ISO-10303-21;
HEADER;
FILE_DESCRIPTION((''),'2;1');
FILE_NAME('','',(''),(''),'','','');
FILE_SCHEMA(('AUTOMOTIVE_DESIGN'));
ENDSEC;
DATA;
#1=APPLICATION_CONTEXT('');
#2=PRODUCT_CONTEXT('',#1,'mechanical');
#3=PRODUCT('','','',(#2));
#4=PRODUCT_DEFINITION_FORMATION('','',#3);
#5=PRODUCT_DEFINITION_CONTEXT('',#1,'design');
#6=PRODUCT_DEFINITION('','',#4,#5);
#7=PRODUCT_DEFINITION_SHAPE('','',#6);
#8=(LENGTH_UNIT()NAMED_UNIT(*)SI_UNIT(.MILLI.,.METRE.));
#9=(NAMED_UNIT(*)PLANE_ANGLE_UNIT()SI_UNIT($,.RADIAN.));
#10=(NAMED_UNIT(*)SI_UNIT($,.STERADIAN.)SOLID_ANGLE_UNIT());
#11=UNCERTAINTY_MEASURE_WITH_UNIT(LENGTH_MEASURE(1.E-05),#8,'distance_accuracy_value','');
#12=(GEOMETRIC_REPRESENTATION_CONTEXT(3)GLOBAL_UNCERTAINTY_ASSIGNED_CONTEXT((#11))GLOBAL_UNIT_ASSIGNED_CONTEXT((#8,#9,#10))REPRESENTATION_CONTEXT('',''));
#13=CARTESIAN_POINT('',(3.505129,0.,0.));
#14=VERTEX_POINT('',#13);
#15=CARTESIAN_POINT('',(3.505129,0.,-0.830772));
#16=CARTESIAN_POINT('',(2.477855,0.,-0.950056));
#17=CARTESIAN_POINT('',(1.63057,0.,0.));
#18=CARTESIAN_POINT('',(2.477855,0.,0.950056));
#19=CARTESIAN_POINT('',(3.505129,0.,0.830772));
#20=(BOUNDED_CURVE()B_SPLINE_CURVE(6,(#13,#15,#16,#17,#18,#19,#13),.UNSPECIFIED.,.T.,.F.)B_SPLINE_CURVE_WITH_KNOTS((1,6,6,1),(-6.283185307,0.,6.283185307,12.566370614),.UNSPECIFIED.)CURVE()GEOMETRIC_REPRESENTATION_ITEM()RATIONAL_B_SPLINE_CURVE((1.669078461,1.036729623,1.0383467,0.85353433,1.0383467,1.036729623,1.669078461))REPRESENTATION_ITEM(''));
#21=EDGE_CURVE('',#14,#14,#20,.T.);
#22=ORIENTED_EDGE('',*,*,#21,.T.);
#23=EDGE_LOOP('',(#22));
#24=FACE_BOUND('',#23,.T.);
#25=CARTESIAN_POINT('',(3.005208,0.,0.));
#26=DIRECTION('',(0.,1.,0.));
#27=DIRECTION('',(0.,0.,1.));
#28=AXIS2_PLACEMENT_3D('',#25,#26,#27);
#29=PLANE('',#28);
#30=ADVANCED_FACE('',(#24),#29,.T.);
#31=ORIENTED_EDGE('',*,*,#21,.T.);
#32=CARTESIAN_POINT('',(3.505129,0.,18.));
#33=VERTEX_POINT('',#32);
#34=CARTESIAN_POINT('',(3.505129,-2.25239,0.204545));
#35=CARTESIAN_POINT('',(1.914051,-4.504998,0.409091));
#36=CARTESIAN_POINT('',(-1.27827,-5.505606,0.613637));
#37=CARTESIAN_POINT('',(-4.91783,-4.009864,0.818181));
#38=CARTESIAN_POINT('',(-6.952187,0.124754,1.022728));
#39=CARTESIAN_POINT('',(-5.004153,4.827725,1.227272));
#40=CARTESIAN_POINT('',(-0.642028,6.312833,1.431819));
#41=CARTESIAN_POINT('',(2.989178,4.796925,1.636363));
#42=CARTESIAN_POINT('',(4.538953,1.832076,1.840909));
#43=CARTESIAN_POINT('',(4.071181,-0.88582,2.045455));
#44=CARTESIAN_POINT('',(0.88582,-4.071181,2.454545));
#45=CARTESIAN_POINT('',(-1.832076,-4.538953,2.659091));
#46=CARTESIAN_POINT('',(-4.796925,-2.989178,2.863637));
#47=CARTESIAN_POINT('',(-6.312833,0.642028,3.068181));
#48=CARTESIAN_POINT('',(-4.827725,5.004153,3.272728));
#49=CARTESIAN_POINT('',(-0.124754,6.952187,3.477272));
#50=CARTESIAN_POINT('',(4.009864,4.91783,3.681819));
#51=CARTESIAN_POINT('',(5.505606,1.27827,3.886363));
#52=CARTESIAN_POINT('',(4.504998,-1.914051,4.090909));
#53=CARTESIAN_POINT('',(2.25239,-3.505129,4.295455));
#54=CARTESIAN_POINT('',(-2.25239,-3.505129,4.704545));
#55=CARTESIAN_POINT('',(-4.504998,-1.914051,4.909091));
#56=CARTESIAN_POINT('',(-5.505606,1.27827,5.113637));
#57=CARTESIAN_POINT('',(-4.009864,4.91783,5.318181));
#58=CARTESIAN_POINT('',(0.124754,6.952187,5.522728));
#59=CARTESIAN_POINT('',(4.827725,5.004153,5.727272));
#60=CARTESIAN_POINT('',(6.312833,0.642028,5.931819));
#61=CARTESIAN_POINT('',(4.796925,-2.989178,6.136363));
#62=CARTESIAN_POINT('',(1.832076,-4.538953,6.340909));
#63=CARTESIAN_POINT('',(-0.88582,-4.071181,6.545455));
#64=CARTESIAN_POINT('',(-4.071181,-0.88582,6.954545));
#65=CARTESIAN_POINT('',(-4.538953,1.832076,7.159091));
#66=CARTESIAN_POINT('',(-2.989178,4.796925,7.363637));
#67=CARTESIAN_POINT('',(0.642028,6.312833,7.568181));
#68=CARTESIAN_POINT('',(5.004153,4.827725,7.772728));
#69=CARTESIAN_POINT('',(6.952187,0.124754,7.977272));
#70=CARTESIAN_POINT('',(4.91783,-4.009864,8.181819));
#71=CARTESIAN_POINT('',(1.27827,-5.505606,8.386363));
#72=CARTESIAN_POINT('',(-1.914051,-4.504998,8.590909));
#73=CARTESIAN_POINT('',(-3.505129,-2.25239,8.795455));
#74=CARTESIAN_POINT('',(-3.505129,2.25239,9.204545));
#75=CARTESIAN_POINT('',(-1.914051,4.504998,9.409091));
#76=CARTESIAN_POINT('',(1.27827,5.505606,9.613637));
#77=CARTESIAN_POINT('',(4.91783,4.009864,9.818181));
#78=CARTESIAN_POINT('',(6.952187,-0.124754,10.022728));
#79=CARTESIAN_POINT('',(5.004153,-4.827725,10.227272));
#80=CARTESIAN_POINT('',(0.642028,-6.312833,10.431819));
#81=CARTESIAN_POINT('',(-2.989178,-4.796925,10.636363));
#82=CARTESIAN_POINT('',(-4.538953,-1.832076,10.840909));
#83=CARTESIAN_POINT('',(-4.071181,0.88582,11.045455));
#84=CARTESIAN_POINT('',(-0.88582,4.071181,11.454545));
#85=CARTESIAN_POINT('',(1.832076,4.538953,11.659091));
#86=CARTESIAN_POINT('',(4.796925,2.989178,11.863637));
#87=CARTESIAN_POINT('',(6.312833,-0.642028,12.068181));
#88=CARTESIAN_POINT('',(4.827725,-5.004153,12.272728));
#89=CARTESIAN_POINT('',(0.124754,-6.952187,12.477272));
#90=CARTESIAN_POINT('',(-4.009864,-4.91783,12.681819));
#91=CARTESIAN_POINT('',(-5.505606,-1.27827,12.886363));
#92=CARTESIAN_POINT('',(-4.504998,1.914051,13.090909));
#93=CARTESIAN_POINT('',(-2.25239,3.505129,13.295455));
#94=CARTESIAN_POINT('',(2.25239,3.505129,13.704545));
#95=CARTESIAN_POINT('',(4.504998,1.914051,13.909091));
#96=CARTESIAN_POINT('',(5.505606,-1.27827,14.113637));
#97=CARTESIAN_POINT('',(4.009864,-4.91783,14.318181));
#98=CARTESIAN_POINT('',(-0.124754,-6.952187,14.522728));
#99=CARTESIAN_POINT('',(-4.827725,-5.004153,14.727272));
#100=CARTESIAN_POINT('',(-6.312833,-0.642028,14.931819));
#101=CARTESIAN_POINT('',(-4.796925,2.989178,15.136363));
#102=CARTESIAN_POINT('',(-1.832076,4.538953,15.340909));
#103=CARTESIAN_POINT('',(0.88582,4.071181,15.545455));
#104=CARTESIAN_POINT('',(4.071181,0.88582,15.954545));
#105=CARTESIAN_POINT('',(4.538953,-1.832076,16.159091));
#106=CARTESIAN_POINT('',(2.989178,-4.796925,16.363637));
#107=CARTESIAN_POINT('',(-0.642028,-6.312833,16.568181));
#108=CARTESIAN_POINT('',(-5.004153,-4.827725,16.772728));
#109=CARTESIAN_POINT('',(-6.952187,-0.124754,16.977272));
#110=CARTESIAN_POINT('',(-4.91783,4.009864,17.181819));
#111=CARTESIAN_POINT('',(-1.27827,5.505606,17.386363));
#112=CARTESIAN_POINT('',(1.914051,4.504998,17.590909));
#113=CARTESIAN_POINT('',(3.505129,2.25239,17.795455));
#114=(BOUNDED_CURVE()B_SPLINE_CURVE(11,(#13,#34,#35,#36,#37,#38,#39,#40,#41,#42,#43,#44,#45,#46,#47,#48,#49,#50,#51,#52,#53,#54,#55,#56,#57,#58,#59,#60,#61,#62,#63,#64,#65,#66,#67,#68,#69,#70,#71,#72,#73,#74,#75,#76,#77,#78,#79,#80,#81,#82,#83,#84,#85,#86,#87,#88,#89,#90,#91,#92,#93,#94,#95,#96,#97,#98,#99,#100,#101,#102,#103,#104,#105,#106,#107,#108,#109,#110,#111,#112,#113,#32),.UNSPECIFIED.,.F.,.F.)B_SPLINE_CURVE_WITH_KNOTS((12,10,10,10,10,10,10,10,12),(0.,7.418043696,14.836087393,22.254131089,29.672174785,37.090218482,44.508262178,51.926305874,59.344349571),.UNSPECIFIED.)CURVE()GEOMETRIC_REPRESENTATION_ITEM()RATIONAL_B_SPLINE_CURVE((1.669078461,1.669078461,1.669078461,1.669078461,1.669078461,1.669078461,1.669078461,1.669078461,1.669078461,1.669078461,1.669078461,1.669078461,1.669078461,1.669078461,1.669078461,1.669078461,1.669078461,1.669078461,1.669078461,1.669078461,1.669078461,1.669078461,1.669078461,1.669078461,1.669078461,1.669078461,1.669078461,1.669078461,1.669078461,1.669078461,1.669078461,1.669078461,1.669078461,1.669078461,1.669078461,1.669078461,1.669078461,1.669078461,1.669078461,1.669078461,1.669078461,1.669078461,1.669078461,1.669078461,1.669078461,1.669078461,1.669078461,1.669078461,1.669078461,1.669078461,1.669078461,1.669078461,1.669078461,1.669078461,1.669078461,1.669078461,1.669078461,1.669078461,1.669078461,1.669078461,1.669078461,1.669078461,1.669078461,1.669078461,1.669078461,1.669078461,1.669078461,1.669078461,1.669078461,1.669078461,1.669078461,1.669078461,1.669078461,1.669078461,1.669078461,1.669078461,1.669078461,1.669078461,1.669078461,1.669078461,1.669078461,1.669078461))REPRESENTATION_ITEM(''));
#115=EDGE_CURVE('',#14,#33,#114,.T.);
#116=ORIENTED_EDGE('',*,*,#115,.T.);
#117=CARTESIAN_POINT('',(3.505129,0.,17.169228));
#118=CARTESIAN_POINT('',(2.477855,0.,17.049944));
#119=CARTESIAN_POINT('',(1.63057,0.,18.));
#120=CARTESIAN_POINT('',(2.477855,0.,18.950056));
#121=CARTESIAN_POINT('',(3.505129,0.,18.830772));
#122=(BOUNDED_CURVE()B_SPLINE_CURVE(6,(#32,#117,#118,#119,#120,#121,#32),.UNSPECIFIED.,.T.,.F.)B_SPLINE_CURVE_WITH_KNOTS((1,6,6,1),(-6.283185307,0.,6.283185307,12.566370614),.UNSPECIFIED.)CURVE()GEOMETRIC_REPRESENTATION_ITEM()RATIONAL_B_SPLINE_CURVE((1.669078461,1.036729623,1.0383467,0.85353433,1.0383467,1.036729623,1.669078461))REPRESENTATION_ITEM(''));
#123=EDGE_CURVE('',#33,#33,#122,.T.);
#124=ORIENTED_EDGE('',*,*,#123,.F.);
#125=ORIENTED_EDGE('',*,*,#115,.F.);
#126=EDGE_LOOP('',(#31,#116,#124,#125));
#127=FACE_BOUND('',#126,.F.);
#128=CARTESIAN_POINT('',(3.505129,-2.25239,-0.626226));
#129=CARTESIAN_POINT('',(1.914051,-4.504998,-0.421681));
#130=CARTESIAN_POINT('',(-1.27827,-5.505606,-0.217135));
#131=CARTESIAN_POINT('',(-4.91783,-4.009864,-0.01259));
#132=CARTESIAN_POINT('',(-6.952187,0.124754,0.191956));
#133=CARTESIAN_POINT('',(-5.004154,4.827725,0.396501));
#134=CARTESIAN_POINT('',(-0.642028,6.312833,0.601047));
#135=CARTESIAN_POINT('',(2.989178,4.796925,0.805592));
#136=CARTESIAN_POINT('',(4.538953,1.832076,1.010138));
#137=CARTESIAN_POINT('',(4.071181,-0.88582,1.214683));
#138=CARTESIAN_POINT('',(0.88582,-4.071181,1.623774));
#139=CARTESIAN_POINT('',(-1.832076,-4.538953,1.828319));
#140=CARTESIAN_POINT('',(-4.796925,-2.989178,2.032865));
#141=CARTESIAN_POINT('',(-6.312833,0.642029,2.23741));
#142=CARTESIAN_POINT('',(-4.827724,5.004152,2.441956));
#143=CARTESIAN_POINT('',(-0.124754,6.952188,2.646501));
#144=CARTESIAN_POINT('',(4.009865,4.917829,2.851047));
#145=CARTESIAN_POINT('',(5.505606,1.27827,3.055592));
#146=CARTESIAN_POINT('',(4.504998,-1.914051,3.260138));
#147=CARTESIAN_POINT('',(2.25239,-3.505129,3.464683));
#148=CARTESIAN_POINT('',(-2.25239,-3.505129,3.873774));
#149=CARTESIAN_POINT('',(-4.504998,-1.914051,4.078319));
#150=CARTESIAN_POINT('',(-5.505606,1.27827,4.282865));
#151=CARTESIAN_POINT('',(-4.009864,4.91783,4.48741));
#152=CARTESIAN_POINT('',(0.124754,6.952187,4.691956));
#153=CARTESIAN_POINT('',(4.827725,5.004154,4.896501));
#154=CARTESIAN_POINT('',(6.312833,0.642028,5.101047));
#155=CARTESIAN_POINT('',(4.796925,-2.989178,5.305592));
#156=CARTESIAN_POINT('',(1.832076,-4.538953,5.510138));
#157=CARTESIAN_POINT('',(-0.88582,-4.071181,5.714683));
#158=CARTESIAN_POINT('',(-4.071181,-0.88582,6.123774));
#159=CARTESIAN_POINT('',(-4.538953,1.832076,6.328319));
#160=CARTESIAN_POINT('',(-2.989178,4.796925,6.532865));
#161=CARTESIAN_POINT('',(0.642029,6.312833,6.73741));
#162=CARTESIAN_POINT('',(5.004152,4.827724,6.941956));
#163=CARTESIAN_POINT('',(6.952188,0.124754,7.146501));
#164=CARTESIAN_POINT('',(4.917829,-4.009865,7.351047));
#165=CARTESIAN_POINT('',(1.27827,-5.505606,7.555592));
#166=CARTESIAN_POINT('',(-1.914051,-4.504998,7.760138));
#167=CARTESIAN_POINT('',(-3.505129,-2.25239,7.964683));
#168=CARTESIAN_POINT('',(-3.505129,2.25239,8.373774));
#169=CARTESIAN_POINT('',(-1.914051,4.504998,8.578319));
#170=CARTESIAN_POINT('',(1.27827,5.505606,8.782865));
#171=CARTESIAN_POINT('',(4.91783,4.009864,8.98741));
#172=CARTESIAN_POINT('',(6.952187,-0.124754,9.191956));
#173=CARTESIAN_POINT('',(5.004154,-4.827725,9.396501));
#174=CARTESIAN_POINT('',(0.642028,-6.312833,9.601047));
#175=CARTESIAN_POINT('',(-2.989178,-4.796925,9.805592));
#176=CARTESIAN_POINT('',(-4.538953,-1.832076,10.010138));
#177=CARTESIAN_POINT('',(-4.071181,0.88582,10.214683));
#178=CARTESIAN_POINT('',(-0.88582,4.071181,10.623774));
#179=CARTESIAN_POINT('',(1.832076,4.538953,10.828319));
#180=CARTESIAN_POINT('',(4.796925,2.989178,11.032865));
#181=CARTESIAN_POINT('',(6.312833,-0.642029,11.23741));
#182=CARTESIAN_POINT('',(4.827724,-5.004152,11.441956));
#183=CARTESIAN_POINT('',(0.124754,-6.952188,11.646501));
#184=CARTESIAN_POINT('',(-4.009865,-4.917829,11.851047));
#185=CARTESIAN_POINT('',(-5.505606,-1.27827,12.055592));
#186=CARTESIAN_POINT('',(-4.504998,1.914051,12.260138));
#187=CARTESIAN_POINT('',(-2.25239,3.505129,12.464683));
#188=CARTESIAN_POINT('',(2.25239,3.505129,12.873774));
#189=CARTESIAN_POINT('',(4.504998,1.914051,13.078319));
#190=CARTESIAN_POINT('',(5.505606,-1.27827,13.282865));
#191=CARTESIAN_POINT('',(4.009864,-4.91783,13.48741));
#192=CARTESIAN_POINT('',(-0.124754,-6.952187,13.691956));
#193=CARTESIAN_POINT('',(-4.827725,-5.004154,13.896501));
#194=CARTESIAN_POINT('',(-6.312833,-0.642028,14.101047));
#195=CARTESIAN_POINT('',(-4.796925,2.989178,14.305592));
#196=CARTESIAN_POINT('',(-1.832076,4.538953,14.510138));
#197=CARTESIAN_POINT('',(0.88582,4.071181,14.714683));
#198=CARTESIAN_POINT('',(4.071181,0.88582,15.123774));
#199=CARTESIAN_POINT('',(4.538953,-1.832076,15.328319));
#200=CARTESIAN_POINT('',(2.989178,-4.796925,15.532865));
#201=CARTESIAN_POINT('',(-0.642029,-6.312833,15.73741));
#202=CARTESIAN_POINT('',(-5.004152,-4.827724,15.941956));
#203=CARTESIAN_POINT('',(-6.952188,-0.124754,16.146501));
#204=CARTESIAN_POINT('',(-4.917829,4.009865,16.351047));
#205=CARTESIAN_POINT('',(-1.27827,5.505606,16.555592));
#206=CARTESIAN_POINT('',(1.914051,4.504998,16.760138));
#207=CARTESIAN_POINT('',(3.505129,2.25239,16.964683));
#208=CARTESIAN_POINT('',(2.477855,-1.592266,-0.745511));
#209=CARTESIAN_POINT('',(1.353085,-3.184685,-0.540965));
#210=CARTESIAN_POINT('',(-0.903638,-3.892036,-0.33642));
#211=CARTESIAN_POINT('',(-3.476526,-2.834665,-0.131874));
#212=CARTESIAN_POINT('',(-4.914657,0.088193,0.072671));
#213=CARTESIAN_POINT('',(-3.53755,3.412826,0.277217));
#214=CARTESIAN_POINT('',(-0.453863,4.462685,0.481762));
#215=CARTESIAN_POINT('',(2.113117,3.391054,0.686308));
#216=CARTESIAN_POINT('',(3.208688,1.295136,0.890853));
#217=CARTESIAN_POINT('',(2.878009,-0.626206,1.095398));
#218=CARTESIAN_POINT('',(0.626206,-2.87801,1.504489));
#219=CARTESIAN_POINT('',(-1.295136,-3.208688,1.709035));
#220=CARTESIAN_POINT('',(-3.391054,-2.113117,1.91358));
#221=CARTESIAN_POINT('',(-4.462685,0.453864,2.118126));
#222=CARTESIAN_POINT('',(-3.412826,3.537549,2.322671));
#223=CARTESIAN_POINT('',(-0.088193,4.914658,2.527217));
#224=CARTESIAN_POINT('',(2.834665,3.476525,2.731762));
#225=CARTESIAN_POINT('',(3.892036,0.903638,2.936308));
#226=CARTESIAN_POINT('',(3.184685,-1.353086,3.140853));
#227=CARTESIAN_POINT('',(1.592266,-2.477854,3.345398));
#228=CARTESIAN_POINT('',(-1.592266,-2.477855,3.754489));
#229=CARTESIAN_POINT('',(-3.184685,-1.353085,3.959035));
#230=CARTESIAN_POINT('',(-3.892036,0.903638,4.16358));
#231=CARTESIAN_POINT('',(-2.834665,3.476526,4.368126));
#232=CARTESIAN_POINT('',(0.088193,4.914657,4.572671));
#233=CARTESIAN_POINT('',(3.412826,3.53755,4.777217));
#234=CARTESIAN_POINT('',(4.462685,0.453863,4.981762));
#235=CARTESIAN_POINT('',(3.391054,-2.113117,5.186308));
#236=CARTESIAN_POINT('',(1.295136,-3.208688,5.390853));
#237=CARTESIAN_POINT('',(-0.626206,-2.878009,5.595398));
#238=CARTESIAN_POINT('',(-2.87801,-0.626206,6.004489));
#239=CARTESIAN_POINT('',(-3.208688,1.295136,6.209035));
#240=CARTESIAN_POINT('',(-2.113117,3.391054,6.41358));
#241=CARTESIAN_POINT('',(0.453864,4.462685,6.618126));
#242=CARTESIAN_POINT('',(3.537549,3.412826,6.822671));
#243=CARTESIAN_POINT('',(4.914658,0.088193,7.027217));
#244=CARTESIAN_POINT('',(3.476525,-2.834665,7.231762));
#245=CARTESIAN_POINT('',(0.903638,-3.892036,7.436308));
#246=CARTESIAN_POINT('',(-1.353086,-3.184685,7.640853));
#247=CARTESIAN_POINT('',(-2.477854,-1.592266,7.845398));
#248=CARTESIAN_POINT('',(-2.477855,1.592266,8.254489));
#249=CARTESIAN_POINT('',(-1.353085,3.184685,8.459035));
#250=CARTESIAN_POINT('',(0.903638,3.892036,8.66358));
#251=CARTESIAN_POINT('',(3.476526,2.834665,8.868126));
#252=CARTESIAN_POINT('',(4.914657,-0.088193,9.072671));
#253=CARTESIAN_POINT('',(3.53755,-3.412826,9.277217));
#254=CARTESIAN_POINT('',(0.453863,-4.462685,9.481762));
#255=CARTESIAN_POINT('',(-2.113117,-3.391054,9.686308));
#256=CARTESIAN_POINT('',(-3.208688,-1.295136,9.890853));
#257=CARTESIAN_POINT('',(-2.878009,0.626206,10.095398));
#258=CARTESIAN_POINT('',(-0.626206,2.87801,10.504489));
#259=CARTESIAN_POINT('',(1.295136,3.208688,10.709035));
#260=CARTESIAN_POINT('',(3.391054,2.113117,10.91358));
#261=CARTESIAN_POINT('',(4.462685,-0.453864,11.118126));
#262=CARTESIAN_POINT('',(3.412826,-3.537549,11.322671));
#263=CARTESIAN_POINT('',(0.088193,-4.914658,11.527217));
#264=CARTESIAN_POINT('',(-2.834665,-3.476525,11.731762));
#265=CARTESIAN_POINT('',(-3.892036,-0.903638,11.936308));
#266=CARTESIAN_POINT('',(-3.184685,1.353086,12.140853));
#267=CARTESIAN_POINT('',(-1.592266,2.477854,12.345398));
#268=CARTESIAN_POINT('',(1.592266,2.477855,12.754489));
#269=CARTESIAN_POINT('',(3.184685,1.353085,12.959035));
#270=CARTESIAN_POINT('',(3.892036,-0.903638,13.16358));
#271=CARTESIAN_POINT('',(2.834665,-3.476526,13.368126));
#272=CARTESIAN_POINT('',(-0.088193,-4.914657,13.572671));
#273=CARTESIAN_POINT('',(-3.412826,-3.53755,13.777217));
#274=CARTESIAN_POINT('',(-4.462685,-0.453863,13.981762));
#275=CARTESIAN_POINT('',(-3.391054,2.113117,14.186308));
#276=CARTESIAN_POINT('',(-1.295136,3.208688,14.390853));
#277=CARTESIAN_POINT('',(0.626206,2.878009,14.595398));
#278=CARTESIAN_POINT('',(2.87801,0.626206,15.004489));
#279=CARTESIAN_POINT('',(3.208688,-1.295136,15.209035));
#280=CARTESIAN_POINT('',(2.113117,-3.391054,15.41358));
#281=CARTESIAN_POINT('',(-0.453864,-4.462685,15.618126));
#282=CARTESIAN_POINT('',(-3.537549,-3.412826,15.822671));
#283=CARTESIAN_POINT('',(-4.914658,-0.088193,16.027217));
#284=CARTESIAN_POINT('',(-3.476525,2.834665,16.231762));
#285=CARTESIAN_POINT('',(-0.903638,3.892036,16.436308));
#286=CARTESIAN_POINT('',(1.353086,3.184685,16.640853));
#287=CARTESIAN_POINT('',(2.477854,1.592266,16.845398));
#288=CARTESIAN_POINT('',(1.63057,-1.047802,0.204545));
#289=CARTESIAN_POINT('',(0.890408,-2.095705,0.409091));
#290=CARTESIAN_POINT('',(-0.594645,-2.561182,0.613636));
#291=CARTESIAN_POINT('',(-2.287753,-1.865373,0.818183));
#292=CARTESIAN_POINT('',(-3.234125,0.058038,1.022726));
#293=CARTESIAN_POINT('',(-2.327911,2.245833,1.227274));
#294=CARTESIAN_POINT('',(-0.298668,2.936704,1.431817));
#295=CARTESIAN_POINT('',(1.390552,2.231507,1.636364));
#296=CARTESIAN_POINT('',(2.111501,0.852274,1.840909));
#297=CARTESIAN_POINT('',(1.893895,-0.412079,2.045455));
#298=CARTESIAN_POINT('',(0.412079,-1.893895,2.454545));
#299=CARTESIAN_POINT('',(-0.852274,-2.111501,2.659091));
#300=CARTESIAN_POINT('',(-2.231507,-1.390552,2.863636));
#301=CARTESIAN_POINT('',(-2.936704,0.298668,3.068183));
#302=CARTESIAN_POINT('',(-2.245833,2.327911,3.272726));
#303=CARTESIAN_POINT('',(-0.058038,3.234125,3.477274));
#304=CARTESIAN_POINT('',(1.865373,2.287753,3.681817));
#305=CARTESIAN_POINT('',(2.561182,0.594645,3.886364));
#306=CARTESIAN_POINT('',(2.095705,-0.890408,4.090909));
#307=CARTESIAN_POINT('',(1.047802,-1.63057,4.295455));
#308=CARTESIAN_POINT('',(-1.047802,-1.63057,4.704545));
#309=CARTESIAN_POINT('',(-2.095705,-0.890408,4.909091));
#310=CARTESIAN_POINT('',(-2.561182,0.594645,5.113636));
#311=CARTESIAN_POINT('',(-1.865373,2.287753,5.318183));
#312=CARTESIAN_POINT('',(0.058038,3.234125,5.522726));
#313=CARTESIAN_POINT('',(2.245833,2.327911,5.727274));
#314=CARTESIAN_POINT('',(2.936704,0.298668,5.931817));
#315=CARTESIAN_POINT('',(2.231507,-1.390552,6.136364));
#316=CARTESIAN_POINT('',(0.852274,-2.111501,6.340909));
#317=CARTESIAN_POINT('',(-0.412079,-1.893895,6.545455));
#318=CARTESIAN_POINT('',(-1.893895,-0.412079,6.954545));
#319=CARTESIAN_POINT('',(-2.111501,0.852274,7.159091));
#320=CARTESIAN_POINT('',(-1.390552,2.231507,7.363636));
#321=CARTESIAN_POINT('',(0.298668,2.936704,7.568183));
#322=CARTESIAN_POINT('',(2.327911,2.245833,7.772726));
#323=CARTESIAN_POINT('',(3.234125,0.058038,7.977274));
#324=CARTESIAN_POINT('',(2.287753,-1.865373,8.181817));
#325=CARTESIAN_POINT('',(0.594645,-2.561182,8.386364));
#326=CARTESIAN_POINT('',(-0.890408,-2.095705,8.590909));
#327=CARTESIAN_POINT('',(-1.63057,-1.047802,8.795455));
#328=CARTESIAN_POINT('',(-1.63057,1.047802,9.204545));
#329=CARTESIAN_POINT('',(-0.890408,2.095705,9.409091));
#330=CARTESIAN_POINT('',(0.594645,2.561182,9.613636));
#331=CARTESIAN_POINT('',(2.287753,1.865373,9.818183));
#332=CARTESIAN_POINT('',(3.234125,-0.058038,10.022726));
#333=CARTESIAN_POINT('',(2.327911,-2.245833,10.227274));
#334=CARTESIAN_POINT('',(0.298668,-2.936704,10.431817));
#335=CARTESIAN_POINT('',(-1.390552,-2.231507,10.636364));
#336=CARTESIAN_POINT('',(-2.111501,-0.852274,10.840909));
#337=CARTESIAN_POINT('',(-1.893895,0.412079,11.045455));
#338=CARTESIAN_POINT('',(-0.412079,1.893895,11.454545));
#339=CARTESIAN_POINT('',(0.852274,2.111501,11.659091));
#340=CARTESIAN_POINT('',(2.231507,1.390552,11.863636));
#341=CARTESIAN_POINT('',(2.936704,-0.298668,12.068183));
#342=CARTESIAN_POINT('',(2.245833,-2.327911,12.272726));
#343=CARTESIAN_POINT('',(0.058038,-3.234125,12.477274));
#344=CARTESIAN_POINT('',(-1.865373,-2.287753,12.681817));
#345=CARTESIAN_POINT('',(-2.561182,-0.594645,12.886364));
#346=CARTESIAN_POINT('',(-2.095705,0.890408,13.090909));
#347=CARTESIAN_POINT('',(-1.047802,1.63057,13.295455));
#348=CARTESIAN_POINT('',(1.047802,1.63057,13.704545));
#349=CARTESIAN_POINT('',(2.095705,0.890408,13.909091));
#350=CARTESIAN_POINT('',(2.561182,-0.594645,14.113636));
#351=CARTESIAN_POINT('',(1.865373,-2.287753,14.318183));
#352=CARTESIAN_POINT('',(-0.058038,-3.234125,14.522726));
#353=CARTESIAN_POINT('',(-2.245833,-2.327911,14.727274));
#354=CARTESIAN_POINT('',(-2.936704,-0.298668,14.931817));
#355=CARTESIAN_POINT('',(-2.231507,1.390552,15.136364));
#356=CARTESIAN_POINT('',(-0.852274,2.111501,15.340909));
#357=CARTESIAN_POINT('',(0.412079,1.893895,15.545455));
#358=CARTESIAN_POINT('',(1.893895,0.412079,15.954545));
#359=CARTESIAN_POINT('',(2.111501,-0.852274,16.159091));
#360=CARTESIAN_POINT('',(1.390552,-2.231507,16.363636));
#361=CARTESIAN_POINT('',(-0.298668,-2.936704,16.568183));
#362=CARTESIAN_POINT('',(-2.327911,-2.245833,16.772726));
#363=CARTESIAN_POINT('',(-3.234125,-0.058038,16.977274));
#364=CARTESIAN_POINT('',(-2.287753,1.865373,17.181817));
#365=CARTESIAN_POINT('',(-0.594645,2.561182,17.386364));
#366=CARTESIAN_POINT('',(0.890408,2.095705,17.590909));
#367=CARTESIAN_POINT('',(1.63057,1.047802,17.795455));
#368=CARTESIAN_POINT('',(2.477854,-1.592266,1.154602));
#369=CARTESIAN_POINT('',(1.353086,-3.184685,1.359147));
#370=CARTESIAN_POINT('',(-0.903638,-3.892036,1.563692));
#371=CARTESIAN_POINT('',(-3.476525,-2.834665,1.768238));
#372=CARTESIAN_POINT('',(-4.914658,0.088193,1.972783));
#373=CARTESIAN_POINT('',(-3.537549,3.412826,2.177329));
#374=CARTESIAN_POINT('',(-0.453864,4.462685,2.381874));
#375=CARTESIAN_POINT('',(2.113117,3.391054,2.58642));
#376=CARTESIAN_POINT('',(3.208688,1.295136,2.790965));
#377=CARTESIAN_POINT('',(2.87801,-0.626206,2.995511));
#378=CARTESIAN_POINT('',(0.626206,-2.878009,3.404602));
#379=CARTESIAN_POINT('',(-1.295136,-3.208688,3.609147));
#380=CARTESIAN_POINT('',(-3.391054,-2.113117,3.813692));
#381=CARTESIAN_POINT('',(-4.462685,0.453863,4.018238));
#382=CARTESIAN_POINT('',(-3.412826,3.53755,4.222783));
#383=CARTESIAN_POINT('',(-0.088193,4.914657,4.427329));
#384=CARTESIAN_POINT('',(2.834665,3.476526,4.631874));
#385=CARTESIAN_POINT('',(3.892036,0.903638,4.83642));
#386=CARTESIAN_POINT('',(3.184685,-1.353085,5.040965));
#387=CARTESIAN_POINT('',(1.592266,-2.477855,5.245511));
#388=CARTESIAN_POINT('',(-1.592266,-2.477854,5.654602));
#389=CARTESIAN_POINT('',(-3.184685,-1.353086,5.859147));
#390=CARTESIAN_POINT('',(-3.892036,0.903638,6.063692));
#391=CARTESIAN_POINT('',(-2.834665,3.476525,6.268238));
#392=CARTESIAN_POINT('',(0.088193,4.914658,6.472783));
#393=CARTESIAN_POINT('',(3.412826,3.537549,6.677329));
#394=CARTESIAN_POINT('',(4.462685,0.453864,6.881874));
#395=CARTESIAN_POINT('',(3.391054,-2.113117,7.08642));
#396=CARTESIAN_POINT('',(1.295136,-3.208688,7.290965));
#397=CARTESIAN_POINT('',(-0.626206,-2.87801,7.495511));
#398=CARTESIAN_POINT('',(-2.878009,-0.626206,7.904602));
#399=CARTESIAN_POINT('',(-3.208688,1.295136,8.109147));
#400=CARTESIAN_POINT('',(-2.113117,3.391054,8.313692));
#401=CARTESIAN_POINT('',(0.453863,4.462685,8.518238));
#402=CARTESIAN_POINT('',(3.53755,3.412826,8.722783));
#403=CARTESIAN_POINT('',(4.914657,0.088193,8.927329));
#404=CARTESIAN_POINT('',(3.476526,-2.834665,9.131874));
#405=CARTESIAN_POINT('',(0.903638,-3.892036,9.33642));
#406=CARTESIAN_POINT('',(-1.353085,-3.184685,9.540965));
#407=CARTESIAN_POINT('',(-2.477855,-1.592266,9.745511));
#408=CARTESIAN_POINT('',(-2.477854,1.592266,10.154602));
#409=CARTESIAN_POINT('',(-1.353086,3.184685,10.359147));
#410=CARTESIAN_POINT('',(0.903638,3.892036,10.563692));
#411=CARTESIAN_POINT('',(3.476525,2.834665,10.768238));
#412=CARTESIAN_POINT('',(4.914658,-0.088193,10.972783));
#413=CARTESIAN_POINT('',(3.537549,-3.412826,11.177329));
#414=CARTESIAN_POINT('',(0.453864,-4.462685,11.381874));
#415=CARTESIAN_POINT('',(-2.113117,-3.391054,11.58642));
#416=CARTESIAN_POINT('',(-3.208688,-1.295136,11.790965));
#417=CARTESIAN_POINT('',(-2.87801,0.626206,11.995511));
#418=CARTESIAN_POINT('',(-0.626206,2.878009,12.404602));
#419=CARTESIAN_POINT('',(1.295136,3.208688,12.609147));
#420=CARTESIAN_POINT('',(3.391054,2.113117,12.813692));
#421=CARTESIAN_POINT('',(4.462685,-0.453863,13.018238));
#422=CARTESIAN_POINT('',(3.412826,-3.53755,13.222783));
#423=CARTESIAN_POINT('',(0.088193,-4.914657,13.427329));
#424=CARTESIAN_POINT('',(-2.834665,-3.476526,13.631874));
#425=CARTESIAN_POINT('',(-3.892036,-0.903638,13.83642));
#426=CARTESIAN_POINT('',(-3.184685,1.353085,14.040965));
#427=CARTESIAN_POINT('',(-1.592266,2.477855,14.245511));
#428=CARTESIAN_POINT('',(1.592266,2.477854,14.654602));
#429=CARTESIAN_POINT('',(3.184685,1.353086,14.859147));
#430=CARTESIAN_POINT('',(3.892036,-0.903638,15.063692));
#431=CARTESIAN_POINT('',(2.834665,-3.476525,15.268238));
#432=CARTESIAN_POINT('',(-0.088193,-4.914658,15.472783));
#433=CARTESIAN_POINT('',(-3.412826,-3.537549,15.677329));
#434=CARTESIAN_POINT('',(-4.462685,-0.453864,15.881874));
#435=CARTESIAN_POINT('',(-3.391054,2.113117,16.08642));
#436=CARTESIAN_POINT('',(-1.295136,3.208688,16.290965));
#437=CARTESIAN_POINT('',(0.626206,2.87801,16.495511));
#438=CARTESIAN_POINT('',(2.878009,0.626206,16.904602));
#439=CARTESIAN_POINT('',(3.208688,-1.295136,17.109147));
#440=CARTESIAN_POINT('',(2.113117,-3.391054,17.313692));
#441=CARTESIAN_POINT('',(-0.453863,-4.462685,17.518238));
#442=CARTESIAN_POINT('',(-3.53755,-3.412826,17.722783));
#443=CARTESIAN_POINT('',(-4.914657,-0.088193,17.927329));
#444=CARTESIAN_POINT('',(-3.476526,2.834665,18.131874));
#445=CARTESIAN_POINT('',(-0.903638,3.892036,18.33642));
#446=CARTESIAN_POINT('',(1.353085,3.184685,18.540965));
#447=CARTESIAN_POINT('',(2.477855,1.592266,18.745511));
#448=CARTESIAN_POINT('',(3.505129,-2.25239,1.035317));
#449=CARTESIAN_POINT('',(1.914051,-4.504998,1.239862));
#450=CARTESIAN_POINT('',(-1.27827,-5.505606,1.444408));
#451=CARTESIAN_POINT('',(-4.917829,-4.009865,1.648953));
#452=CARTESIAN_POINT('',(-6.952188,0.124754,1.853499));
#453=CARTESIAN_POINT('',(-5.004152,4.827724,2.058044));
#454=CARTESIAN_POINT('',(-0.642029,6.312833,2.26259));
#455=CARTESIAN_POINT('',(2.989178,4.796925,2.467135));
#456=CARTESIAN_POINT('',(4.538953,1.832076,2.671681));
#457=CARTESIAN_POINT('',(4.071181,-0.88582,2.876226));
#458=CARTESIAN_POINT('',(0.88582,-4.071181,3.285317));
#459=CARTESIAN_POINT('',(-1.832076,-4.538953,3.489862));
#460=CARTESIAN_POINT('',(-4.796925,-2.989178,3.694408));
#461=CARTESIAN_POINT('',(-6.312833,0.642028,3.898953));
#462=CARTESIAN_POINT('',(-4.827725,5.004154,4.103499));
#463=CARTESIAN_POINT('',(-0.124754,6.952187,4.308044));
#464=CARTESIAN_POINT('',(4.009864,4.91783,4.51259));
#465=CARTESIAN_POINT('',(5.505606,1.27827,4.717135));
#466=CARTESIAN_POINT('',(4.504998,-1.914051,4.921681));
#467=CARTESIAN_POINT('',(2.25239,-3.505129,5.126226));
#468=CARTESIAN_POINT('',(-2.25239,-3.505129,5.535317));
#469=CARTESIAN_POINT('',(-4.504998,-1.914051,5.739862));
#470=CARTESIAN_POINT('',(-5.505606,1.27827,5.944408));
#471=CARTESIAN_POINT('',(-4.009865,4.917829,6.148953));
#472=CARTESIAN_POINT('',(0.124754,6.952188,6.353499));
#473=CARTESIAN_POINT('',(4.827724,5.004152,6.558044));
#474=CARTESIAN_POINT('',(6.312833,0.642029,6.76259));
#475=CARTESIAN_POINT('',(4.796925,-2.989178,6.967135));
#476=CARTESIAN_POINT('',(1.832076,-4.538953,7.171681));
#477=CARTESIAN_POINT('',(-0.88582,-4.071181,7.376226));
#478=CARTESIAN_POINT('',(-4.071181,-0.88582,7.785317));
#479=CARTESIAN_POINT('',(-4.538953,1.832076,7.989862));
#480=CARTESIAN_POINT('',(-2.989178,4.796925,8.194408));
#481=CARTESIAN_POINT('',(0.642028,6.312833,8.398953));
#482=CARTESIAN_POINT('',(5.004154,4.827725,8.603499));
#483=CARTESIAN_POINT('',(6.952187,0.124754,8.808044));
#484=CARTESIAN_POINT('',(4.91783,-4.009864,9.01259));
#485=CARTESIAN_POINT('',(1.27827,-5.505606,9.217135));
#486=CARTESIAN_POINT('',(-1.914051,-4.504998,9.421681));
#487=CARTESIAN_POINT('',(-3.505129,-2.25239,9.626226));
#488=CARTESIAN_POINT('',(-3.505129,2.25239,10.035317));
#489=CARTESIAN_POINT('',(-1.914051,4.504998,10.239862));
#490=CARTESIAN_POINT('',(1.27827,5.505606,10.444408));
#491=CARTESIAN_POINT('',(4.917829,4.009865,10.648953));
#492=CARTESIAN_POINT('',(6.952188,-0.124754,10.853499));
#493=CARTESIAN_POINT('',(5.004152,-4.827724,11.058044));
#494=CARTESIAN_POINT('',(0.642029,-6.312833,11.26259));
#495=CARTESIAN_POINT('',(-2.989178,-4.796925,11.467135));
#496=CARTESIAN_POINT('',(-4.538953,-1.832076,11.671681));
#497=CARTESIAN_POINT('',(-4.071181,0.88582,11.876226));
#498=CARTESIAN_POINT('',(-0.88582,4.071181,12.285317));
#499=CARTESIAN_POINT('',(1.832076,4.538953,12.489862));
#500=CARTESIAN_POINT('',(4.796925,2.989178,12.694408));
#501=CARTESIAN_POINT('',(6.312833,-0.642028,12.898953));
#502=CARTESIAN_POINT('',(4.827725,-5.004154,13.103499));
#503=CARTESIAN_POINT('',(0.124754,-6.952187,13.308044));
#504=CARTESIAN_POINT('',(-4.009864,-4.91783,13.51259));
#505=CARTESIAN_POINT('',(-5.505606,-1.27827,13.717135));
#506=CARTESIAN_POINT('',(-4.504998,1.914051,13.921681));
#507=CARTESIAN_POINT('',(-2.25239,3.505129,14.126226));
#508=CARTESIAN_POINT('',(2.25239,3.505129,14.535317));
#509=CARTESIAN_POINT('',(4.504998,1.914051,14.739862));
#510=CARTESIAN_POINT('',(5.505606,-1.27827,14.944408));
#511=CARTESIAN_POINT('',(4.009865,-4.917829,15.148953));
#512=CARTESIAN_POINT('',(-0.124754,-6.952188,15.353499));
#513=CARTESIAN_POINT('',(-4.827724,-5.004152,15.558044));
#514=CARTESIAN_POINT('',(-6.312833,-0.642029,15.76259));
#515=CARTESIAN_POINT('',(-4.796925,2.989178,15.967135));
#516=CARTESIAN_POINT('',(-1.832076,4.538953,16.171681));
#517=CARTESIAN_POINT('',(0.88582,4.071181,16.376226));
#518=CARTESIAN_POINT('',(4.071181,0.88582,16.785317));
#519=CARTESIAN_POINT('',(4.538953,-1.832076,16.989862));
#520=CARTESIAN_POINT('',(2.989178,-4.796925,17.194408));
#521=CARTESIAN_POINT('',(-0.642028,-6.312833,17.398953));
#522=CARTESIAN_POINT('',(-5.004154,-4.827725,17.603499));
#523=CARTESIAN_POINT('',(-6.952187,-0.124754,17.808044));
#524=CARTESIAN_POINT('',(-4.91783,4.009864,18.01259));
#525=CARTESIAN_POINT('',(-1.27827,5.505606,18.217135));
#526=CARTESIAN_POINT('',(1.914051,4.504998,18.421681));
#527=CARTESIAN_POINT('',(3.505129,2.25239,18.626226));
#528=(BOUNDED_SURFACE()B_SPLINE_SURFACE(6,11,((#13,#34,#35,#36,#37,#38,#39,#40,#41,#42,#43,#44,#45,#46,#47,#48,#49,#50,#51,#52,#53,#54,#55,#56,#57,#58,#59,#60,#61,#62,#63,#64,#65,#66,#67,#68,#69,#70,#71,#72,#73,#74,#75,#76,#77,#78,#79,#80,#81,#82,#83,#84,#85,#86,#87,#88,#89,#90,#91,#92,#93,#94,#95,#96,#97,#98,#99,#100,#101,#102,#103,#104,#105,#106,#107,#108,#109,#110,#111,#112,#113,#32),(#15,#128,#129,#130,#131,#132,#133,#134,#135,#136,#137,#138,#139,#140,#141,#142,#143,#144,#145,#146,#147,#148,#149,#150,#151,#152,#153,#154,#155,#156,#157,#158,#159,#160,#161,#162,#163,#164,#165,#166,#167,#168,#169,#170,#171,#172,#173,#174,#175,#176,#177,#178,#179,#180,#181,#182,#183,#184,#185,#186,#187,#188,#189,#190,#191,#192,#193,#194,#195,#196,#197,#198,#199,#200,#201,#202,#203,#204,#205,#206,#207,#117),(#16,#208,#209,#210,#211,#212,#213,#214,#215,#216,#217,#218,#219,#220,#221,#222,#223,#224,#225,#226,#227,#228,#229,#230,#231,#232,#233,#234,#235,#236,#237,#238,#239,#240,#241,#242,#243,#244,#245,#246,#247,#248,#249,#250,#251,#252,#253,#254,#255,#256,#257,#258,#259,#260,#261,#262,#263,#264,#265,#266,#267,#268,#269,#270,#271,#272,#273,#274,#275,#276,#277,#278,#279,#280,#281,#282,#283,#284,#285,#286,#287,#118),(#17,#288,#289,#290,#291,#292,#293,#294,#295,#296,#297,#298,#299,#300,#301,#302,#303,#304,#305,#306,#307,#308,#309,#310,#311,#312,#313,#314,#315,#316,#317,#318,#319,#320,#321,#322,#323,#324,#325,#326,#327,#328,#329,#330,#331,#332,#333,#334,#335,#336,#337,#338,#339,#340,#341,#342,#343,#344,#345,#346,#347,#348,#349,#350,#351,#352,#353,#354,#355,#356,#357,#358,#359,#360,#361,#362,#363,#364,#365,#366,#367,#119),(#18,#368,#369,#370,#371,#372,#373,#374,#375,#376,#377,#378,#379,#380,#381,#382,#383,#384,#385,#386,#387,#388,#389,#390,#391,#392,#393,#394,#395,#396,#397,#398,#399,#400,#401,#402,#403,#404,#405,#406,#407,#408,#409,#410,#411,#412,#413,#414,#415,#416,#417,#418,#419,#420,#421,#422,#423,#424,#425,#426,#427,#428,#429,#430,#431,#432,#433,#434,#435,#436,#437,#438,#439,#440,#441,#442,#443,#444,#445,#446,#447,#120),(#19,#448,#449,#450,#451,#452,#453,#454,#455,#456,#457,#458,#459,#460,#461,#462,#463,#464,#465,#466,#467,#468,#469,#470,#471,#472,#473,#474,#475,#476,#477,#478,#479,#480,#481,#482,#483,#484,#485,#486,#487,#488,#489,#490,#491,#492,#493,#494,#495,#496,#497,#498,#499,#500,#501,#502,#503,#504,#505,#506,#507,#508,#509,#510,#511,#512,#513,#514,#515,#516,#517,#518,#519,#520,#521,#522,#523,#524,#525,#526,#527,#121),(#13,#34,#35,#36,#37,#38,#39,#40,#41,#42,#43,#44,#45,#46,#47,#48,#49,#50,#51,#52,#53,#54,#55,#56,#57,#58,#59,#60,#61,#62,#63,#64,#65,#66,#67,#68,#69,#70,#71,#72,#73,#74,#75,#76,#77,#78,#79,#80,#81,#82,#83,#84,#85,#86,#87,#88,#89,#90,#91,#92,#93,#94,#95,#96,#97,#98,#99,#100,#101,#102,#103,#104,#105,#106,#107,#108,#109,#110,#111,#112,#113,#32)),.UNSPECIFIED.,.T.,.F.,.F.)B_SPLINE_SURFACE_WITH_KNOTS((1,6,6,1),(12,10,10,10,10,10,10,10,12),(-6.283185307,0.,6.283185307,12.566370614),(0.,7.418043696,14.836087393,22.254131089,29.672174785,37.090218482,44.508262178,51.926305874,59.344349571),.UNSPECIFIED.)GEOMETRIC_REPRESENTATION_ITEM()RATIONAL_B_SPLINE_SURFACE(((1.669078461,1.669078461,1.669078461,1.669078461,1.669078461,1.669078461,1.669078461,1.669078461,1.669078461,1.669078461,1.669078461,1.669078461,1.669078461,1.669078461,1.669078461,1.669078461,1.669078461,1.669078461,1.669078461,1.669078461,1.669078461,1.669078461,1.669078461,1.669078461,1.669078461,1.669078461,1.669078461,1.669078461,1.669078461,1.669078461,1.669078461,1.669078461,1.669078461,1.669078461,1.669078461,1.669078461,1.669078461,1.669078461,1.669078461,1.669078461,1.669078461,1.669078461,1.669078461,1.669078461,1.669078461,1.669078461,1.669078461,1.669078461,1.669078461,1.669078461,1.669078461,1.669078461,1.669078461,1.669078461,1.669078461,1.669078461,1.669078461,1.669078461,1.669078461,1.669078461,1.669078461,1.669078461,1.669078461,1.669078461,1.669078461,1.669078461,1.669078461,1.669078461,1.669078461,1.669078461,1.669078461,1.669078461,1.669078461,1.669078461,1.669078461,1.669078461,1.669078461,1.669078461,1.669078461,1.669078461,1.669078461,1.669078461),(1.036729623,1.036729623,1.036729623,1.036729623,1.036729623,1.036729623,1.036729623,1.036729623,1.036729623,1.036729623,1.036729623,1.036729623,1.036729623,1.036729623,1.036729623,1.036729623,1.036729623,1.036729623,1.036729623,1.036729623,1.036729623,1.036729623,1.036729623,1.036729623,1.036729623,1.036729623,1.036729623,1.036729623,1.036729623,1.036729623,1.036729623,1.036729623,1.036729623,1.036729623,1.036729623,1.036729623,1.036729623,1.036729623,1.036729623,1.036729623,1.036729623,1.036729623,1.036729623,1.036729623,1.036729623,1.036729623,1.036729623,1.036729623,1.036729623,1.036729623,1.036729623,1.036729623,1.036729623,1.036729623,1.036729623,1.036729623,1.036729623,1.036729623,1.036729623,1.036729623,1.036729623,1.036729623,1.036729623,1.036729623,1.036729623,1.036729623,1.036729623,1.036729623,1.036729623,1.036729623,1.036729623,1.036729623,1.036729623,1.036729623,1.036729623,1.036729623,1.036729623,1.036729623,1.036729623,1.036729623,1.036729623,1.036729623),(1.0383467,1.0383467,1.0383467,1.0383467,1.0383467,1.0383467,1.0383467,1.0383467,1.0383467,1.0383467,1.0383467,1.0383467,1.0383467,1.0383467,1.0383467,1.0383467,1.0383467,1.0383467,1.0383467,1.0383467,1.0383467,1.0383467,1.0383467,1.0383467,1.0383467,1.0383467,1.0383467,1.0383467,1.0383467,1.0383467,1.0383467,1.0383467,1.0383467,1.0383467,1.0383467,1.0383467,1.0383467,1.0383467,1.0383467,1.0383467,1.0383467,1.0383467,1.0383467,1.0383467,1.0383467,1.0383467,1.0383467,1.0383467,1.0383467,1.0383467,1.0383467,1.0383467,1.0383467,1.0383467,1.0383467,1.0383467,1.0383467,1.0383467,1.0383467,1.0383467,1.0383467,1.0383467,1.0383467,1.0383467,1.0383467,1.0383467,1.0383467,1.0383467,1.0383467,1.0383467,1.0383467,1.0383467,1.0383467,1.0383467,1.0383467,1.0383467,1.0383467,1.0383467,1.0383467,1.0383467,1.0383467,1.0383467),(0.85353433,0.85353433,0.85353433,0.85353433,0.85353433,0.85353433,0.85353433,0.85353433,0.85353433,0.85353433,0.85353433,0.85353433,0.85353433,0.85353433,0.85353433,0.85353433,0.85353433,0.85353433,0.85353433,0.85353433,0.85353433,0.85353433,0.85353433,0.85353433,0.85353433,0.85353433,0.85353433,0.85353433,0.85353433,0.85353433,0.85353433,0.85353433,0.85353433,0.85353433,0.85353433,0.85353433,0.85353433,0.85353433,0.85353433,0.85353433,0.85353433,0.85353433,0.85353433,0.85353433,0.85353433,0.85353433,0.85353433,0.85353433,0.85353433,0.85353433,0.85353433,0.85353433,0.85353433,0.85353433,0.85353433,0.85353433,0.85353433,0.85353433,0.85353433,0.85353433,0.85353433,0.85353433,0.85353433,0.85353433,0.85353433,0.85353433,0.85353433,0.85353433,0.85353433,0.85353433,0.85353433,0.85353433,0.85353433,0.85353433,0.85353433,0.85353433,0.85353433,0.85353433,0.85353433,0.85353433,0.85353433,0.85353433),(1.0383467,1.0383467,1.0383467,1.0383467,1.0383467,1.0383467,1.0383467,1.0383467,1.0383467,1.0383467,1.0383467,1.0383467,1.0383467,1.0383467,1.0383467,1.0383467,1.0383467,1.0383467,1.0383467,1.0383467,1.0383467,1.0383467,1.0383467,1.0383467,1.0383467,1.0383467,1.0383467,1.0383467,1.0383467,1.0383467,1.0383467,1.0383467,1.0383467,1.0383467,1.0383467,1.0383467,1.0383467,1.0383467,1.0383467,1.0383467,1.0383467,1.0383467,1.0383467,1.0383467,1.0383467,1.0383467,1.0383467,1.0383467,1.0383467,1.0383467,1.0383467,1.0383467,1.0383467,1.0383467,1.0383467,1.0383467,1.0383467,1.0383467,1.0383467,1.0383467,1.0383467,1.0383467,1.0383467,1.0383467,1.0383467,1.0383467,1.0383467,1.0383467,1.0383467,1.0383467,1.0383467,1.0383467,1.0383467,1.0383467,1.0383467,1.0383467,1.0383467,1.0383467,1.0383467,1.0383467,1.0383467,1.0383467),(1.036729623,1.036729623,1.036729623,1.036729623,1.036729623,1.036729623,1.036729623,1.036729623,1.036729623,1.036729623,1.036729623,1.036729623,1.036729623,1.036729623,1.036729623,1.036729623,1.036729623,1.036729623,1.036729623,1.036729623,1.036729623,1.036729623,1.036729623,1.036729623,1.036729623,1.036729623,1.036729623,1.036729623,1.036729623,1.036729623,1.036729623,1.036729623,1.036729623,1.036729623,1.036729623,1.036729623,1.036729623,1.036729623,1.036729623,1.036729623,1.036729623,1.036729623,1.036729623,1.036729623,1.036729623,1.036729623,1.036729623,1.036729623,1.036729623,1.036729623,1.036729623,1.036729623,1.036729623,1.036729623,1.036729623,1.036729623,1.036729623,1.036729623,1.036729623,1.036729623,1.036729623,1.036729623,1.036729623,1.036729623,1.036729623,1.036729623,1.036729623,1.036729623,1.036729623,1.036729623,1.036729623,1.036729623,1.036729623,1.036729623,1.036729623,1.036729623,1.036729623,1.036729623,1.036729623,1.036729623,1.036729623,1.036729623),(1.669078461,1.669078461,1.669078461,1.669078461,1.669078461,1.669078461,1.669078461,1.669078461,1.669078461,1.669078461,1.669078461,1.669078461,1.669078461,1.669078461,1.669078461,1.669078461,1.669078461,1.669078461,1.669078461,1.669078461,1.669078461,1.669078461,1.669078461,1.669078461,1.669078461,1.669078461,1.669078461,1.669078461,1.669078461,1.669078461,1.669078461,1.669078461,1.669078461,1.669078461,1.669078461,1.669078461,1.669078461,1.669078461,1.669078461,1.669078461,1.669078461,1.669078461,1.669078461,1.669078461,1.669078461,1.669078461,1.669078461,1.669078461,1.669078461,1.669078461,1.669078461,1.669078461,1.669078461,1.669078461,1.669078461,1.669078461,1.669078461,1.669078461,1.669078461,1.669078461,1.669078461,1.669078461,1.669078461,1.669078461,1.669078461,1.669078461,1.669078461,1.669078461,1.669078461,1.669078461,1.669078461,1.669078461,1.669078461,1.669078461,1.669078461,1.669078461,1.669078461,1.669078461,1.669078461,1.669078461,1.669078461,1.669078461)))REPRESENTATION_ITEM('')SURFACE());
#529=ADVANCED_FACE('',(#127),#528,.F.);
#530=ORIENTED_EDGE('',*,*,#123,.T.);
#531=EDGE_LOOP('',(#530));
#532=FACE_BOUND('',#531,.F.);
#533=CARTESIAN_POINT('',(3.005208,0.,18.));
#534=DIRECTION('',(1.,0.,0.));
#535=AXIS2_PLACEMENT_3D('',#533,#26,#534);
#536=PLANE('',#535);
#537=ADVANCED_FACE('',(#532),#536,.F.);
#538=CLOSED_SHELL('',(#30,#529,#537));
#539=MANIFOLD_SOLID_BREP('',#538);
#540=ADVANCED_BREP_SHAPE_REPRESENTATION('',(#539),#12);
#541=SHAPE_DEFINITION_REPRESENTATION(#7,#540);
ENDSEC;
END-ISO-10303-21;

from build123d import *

# Parameters (mm, degrees)
SWEEP_1_PITCH  = 2
SWEEP_1_HEIGHT = 18
SWEEP_1_RADIUS = 3
SKETCH_5_R     = 0.5


with BuildPart() as part:
    # 扫描1: sweep along a helix
    with BuildLine() as sweep_1_path:
        Helix(SWEEP_1_PITCH, SWEEP_1_HEIGHT, SWEEP_1_RADIUS, center=(0, 0, 0), direction=(0, 0, 1), lefthand=True)
    # 草图5 → 扫描1 (sweep)
    with BuildSketch(Plane(origin=(0, 0, 0), x_dir=(1, 0, 0), z_dir=(0, 1, 0))):
        with Locations((3.005128604, 0)):
            Circle(SKETCH_5_R)
    sweep(path=sweep_1_path.line, is_frenet=True)


solid = part.part
